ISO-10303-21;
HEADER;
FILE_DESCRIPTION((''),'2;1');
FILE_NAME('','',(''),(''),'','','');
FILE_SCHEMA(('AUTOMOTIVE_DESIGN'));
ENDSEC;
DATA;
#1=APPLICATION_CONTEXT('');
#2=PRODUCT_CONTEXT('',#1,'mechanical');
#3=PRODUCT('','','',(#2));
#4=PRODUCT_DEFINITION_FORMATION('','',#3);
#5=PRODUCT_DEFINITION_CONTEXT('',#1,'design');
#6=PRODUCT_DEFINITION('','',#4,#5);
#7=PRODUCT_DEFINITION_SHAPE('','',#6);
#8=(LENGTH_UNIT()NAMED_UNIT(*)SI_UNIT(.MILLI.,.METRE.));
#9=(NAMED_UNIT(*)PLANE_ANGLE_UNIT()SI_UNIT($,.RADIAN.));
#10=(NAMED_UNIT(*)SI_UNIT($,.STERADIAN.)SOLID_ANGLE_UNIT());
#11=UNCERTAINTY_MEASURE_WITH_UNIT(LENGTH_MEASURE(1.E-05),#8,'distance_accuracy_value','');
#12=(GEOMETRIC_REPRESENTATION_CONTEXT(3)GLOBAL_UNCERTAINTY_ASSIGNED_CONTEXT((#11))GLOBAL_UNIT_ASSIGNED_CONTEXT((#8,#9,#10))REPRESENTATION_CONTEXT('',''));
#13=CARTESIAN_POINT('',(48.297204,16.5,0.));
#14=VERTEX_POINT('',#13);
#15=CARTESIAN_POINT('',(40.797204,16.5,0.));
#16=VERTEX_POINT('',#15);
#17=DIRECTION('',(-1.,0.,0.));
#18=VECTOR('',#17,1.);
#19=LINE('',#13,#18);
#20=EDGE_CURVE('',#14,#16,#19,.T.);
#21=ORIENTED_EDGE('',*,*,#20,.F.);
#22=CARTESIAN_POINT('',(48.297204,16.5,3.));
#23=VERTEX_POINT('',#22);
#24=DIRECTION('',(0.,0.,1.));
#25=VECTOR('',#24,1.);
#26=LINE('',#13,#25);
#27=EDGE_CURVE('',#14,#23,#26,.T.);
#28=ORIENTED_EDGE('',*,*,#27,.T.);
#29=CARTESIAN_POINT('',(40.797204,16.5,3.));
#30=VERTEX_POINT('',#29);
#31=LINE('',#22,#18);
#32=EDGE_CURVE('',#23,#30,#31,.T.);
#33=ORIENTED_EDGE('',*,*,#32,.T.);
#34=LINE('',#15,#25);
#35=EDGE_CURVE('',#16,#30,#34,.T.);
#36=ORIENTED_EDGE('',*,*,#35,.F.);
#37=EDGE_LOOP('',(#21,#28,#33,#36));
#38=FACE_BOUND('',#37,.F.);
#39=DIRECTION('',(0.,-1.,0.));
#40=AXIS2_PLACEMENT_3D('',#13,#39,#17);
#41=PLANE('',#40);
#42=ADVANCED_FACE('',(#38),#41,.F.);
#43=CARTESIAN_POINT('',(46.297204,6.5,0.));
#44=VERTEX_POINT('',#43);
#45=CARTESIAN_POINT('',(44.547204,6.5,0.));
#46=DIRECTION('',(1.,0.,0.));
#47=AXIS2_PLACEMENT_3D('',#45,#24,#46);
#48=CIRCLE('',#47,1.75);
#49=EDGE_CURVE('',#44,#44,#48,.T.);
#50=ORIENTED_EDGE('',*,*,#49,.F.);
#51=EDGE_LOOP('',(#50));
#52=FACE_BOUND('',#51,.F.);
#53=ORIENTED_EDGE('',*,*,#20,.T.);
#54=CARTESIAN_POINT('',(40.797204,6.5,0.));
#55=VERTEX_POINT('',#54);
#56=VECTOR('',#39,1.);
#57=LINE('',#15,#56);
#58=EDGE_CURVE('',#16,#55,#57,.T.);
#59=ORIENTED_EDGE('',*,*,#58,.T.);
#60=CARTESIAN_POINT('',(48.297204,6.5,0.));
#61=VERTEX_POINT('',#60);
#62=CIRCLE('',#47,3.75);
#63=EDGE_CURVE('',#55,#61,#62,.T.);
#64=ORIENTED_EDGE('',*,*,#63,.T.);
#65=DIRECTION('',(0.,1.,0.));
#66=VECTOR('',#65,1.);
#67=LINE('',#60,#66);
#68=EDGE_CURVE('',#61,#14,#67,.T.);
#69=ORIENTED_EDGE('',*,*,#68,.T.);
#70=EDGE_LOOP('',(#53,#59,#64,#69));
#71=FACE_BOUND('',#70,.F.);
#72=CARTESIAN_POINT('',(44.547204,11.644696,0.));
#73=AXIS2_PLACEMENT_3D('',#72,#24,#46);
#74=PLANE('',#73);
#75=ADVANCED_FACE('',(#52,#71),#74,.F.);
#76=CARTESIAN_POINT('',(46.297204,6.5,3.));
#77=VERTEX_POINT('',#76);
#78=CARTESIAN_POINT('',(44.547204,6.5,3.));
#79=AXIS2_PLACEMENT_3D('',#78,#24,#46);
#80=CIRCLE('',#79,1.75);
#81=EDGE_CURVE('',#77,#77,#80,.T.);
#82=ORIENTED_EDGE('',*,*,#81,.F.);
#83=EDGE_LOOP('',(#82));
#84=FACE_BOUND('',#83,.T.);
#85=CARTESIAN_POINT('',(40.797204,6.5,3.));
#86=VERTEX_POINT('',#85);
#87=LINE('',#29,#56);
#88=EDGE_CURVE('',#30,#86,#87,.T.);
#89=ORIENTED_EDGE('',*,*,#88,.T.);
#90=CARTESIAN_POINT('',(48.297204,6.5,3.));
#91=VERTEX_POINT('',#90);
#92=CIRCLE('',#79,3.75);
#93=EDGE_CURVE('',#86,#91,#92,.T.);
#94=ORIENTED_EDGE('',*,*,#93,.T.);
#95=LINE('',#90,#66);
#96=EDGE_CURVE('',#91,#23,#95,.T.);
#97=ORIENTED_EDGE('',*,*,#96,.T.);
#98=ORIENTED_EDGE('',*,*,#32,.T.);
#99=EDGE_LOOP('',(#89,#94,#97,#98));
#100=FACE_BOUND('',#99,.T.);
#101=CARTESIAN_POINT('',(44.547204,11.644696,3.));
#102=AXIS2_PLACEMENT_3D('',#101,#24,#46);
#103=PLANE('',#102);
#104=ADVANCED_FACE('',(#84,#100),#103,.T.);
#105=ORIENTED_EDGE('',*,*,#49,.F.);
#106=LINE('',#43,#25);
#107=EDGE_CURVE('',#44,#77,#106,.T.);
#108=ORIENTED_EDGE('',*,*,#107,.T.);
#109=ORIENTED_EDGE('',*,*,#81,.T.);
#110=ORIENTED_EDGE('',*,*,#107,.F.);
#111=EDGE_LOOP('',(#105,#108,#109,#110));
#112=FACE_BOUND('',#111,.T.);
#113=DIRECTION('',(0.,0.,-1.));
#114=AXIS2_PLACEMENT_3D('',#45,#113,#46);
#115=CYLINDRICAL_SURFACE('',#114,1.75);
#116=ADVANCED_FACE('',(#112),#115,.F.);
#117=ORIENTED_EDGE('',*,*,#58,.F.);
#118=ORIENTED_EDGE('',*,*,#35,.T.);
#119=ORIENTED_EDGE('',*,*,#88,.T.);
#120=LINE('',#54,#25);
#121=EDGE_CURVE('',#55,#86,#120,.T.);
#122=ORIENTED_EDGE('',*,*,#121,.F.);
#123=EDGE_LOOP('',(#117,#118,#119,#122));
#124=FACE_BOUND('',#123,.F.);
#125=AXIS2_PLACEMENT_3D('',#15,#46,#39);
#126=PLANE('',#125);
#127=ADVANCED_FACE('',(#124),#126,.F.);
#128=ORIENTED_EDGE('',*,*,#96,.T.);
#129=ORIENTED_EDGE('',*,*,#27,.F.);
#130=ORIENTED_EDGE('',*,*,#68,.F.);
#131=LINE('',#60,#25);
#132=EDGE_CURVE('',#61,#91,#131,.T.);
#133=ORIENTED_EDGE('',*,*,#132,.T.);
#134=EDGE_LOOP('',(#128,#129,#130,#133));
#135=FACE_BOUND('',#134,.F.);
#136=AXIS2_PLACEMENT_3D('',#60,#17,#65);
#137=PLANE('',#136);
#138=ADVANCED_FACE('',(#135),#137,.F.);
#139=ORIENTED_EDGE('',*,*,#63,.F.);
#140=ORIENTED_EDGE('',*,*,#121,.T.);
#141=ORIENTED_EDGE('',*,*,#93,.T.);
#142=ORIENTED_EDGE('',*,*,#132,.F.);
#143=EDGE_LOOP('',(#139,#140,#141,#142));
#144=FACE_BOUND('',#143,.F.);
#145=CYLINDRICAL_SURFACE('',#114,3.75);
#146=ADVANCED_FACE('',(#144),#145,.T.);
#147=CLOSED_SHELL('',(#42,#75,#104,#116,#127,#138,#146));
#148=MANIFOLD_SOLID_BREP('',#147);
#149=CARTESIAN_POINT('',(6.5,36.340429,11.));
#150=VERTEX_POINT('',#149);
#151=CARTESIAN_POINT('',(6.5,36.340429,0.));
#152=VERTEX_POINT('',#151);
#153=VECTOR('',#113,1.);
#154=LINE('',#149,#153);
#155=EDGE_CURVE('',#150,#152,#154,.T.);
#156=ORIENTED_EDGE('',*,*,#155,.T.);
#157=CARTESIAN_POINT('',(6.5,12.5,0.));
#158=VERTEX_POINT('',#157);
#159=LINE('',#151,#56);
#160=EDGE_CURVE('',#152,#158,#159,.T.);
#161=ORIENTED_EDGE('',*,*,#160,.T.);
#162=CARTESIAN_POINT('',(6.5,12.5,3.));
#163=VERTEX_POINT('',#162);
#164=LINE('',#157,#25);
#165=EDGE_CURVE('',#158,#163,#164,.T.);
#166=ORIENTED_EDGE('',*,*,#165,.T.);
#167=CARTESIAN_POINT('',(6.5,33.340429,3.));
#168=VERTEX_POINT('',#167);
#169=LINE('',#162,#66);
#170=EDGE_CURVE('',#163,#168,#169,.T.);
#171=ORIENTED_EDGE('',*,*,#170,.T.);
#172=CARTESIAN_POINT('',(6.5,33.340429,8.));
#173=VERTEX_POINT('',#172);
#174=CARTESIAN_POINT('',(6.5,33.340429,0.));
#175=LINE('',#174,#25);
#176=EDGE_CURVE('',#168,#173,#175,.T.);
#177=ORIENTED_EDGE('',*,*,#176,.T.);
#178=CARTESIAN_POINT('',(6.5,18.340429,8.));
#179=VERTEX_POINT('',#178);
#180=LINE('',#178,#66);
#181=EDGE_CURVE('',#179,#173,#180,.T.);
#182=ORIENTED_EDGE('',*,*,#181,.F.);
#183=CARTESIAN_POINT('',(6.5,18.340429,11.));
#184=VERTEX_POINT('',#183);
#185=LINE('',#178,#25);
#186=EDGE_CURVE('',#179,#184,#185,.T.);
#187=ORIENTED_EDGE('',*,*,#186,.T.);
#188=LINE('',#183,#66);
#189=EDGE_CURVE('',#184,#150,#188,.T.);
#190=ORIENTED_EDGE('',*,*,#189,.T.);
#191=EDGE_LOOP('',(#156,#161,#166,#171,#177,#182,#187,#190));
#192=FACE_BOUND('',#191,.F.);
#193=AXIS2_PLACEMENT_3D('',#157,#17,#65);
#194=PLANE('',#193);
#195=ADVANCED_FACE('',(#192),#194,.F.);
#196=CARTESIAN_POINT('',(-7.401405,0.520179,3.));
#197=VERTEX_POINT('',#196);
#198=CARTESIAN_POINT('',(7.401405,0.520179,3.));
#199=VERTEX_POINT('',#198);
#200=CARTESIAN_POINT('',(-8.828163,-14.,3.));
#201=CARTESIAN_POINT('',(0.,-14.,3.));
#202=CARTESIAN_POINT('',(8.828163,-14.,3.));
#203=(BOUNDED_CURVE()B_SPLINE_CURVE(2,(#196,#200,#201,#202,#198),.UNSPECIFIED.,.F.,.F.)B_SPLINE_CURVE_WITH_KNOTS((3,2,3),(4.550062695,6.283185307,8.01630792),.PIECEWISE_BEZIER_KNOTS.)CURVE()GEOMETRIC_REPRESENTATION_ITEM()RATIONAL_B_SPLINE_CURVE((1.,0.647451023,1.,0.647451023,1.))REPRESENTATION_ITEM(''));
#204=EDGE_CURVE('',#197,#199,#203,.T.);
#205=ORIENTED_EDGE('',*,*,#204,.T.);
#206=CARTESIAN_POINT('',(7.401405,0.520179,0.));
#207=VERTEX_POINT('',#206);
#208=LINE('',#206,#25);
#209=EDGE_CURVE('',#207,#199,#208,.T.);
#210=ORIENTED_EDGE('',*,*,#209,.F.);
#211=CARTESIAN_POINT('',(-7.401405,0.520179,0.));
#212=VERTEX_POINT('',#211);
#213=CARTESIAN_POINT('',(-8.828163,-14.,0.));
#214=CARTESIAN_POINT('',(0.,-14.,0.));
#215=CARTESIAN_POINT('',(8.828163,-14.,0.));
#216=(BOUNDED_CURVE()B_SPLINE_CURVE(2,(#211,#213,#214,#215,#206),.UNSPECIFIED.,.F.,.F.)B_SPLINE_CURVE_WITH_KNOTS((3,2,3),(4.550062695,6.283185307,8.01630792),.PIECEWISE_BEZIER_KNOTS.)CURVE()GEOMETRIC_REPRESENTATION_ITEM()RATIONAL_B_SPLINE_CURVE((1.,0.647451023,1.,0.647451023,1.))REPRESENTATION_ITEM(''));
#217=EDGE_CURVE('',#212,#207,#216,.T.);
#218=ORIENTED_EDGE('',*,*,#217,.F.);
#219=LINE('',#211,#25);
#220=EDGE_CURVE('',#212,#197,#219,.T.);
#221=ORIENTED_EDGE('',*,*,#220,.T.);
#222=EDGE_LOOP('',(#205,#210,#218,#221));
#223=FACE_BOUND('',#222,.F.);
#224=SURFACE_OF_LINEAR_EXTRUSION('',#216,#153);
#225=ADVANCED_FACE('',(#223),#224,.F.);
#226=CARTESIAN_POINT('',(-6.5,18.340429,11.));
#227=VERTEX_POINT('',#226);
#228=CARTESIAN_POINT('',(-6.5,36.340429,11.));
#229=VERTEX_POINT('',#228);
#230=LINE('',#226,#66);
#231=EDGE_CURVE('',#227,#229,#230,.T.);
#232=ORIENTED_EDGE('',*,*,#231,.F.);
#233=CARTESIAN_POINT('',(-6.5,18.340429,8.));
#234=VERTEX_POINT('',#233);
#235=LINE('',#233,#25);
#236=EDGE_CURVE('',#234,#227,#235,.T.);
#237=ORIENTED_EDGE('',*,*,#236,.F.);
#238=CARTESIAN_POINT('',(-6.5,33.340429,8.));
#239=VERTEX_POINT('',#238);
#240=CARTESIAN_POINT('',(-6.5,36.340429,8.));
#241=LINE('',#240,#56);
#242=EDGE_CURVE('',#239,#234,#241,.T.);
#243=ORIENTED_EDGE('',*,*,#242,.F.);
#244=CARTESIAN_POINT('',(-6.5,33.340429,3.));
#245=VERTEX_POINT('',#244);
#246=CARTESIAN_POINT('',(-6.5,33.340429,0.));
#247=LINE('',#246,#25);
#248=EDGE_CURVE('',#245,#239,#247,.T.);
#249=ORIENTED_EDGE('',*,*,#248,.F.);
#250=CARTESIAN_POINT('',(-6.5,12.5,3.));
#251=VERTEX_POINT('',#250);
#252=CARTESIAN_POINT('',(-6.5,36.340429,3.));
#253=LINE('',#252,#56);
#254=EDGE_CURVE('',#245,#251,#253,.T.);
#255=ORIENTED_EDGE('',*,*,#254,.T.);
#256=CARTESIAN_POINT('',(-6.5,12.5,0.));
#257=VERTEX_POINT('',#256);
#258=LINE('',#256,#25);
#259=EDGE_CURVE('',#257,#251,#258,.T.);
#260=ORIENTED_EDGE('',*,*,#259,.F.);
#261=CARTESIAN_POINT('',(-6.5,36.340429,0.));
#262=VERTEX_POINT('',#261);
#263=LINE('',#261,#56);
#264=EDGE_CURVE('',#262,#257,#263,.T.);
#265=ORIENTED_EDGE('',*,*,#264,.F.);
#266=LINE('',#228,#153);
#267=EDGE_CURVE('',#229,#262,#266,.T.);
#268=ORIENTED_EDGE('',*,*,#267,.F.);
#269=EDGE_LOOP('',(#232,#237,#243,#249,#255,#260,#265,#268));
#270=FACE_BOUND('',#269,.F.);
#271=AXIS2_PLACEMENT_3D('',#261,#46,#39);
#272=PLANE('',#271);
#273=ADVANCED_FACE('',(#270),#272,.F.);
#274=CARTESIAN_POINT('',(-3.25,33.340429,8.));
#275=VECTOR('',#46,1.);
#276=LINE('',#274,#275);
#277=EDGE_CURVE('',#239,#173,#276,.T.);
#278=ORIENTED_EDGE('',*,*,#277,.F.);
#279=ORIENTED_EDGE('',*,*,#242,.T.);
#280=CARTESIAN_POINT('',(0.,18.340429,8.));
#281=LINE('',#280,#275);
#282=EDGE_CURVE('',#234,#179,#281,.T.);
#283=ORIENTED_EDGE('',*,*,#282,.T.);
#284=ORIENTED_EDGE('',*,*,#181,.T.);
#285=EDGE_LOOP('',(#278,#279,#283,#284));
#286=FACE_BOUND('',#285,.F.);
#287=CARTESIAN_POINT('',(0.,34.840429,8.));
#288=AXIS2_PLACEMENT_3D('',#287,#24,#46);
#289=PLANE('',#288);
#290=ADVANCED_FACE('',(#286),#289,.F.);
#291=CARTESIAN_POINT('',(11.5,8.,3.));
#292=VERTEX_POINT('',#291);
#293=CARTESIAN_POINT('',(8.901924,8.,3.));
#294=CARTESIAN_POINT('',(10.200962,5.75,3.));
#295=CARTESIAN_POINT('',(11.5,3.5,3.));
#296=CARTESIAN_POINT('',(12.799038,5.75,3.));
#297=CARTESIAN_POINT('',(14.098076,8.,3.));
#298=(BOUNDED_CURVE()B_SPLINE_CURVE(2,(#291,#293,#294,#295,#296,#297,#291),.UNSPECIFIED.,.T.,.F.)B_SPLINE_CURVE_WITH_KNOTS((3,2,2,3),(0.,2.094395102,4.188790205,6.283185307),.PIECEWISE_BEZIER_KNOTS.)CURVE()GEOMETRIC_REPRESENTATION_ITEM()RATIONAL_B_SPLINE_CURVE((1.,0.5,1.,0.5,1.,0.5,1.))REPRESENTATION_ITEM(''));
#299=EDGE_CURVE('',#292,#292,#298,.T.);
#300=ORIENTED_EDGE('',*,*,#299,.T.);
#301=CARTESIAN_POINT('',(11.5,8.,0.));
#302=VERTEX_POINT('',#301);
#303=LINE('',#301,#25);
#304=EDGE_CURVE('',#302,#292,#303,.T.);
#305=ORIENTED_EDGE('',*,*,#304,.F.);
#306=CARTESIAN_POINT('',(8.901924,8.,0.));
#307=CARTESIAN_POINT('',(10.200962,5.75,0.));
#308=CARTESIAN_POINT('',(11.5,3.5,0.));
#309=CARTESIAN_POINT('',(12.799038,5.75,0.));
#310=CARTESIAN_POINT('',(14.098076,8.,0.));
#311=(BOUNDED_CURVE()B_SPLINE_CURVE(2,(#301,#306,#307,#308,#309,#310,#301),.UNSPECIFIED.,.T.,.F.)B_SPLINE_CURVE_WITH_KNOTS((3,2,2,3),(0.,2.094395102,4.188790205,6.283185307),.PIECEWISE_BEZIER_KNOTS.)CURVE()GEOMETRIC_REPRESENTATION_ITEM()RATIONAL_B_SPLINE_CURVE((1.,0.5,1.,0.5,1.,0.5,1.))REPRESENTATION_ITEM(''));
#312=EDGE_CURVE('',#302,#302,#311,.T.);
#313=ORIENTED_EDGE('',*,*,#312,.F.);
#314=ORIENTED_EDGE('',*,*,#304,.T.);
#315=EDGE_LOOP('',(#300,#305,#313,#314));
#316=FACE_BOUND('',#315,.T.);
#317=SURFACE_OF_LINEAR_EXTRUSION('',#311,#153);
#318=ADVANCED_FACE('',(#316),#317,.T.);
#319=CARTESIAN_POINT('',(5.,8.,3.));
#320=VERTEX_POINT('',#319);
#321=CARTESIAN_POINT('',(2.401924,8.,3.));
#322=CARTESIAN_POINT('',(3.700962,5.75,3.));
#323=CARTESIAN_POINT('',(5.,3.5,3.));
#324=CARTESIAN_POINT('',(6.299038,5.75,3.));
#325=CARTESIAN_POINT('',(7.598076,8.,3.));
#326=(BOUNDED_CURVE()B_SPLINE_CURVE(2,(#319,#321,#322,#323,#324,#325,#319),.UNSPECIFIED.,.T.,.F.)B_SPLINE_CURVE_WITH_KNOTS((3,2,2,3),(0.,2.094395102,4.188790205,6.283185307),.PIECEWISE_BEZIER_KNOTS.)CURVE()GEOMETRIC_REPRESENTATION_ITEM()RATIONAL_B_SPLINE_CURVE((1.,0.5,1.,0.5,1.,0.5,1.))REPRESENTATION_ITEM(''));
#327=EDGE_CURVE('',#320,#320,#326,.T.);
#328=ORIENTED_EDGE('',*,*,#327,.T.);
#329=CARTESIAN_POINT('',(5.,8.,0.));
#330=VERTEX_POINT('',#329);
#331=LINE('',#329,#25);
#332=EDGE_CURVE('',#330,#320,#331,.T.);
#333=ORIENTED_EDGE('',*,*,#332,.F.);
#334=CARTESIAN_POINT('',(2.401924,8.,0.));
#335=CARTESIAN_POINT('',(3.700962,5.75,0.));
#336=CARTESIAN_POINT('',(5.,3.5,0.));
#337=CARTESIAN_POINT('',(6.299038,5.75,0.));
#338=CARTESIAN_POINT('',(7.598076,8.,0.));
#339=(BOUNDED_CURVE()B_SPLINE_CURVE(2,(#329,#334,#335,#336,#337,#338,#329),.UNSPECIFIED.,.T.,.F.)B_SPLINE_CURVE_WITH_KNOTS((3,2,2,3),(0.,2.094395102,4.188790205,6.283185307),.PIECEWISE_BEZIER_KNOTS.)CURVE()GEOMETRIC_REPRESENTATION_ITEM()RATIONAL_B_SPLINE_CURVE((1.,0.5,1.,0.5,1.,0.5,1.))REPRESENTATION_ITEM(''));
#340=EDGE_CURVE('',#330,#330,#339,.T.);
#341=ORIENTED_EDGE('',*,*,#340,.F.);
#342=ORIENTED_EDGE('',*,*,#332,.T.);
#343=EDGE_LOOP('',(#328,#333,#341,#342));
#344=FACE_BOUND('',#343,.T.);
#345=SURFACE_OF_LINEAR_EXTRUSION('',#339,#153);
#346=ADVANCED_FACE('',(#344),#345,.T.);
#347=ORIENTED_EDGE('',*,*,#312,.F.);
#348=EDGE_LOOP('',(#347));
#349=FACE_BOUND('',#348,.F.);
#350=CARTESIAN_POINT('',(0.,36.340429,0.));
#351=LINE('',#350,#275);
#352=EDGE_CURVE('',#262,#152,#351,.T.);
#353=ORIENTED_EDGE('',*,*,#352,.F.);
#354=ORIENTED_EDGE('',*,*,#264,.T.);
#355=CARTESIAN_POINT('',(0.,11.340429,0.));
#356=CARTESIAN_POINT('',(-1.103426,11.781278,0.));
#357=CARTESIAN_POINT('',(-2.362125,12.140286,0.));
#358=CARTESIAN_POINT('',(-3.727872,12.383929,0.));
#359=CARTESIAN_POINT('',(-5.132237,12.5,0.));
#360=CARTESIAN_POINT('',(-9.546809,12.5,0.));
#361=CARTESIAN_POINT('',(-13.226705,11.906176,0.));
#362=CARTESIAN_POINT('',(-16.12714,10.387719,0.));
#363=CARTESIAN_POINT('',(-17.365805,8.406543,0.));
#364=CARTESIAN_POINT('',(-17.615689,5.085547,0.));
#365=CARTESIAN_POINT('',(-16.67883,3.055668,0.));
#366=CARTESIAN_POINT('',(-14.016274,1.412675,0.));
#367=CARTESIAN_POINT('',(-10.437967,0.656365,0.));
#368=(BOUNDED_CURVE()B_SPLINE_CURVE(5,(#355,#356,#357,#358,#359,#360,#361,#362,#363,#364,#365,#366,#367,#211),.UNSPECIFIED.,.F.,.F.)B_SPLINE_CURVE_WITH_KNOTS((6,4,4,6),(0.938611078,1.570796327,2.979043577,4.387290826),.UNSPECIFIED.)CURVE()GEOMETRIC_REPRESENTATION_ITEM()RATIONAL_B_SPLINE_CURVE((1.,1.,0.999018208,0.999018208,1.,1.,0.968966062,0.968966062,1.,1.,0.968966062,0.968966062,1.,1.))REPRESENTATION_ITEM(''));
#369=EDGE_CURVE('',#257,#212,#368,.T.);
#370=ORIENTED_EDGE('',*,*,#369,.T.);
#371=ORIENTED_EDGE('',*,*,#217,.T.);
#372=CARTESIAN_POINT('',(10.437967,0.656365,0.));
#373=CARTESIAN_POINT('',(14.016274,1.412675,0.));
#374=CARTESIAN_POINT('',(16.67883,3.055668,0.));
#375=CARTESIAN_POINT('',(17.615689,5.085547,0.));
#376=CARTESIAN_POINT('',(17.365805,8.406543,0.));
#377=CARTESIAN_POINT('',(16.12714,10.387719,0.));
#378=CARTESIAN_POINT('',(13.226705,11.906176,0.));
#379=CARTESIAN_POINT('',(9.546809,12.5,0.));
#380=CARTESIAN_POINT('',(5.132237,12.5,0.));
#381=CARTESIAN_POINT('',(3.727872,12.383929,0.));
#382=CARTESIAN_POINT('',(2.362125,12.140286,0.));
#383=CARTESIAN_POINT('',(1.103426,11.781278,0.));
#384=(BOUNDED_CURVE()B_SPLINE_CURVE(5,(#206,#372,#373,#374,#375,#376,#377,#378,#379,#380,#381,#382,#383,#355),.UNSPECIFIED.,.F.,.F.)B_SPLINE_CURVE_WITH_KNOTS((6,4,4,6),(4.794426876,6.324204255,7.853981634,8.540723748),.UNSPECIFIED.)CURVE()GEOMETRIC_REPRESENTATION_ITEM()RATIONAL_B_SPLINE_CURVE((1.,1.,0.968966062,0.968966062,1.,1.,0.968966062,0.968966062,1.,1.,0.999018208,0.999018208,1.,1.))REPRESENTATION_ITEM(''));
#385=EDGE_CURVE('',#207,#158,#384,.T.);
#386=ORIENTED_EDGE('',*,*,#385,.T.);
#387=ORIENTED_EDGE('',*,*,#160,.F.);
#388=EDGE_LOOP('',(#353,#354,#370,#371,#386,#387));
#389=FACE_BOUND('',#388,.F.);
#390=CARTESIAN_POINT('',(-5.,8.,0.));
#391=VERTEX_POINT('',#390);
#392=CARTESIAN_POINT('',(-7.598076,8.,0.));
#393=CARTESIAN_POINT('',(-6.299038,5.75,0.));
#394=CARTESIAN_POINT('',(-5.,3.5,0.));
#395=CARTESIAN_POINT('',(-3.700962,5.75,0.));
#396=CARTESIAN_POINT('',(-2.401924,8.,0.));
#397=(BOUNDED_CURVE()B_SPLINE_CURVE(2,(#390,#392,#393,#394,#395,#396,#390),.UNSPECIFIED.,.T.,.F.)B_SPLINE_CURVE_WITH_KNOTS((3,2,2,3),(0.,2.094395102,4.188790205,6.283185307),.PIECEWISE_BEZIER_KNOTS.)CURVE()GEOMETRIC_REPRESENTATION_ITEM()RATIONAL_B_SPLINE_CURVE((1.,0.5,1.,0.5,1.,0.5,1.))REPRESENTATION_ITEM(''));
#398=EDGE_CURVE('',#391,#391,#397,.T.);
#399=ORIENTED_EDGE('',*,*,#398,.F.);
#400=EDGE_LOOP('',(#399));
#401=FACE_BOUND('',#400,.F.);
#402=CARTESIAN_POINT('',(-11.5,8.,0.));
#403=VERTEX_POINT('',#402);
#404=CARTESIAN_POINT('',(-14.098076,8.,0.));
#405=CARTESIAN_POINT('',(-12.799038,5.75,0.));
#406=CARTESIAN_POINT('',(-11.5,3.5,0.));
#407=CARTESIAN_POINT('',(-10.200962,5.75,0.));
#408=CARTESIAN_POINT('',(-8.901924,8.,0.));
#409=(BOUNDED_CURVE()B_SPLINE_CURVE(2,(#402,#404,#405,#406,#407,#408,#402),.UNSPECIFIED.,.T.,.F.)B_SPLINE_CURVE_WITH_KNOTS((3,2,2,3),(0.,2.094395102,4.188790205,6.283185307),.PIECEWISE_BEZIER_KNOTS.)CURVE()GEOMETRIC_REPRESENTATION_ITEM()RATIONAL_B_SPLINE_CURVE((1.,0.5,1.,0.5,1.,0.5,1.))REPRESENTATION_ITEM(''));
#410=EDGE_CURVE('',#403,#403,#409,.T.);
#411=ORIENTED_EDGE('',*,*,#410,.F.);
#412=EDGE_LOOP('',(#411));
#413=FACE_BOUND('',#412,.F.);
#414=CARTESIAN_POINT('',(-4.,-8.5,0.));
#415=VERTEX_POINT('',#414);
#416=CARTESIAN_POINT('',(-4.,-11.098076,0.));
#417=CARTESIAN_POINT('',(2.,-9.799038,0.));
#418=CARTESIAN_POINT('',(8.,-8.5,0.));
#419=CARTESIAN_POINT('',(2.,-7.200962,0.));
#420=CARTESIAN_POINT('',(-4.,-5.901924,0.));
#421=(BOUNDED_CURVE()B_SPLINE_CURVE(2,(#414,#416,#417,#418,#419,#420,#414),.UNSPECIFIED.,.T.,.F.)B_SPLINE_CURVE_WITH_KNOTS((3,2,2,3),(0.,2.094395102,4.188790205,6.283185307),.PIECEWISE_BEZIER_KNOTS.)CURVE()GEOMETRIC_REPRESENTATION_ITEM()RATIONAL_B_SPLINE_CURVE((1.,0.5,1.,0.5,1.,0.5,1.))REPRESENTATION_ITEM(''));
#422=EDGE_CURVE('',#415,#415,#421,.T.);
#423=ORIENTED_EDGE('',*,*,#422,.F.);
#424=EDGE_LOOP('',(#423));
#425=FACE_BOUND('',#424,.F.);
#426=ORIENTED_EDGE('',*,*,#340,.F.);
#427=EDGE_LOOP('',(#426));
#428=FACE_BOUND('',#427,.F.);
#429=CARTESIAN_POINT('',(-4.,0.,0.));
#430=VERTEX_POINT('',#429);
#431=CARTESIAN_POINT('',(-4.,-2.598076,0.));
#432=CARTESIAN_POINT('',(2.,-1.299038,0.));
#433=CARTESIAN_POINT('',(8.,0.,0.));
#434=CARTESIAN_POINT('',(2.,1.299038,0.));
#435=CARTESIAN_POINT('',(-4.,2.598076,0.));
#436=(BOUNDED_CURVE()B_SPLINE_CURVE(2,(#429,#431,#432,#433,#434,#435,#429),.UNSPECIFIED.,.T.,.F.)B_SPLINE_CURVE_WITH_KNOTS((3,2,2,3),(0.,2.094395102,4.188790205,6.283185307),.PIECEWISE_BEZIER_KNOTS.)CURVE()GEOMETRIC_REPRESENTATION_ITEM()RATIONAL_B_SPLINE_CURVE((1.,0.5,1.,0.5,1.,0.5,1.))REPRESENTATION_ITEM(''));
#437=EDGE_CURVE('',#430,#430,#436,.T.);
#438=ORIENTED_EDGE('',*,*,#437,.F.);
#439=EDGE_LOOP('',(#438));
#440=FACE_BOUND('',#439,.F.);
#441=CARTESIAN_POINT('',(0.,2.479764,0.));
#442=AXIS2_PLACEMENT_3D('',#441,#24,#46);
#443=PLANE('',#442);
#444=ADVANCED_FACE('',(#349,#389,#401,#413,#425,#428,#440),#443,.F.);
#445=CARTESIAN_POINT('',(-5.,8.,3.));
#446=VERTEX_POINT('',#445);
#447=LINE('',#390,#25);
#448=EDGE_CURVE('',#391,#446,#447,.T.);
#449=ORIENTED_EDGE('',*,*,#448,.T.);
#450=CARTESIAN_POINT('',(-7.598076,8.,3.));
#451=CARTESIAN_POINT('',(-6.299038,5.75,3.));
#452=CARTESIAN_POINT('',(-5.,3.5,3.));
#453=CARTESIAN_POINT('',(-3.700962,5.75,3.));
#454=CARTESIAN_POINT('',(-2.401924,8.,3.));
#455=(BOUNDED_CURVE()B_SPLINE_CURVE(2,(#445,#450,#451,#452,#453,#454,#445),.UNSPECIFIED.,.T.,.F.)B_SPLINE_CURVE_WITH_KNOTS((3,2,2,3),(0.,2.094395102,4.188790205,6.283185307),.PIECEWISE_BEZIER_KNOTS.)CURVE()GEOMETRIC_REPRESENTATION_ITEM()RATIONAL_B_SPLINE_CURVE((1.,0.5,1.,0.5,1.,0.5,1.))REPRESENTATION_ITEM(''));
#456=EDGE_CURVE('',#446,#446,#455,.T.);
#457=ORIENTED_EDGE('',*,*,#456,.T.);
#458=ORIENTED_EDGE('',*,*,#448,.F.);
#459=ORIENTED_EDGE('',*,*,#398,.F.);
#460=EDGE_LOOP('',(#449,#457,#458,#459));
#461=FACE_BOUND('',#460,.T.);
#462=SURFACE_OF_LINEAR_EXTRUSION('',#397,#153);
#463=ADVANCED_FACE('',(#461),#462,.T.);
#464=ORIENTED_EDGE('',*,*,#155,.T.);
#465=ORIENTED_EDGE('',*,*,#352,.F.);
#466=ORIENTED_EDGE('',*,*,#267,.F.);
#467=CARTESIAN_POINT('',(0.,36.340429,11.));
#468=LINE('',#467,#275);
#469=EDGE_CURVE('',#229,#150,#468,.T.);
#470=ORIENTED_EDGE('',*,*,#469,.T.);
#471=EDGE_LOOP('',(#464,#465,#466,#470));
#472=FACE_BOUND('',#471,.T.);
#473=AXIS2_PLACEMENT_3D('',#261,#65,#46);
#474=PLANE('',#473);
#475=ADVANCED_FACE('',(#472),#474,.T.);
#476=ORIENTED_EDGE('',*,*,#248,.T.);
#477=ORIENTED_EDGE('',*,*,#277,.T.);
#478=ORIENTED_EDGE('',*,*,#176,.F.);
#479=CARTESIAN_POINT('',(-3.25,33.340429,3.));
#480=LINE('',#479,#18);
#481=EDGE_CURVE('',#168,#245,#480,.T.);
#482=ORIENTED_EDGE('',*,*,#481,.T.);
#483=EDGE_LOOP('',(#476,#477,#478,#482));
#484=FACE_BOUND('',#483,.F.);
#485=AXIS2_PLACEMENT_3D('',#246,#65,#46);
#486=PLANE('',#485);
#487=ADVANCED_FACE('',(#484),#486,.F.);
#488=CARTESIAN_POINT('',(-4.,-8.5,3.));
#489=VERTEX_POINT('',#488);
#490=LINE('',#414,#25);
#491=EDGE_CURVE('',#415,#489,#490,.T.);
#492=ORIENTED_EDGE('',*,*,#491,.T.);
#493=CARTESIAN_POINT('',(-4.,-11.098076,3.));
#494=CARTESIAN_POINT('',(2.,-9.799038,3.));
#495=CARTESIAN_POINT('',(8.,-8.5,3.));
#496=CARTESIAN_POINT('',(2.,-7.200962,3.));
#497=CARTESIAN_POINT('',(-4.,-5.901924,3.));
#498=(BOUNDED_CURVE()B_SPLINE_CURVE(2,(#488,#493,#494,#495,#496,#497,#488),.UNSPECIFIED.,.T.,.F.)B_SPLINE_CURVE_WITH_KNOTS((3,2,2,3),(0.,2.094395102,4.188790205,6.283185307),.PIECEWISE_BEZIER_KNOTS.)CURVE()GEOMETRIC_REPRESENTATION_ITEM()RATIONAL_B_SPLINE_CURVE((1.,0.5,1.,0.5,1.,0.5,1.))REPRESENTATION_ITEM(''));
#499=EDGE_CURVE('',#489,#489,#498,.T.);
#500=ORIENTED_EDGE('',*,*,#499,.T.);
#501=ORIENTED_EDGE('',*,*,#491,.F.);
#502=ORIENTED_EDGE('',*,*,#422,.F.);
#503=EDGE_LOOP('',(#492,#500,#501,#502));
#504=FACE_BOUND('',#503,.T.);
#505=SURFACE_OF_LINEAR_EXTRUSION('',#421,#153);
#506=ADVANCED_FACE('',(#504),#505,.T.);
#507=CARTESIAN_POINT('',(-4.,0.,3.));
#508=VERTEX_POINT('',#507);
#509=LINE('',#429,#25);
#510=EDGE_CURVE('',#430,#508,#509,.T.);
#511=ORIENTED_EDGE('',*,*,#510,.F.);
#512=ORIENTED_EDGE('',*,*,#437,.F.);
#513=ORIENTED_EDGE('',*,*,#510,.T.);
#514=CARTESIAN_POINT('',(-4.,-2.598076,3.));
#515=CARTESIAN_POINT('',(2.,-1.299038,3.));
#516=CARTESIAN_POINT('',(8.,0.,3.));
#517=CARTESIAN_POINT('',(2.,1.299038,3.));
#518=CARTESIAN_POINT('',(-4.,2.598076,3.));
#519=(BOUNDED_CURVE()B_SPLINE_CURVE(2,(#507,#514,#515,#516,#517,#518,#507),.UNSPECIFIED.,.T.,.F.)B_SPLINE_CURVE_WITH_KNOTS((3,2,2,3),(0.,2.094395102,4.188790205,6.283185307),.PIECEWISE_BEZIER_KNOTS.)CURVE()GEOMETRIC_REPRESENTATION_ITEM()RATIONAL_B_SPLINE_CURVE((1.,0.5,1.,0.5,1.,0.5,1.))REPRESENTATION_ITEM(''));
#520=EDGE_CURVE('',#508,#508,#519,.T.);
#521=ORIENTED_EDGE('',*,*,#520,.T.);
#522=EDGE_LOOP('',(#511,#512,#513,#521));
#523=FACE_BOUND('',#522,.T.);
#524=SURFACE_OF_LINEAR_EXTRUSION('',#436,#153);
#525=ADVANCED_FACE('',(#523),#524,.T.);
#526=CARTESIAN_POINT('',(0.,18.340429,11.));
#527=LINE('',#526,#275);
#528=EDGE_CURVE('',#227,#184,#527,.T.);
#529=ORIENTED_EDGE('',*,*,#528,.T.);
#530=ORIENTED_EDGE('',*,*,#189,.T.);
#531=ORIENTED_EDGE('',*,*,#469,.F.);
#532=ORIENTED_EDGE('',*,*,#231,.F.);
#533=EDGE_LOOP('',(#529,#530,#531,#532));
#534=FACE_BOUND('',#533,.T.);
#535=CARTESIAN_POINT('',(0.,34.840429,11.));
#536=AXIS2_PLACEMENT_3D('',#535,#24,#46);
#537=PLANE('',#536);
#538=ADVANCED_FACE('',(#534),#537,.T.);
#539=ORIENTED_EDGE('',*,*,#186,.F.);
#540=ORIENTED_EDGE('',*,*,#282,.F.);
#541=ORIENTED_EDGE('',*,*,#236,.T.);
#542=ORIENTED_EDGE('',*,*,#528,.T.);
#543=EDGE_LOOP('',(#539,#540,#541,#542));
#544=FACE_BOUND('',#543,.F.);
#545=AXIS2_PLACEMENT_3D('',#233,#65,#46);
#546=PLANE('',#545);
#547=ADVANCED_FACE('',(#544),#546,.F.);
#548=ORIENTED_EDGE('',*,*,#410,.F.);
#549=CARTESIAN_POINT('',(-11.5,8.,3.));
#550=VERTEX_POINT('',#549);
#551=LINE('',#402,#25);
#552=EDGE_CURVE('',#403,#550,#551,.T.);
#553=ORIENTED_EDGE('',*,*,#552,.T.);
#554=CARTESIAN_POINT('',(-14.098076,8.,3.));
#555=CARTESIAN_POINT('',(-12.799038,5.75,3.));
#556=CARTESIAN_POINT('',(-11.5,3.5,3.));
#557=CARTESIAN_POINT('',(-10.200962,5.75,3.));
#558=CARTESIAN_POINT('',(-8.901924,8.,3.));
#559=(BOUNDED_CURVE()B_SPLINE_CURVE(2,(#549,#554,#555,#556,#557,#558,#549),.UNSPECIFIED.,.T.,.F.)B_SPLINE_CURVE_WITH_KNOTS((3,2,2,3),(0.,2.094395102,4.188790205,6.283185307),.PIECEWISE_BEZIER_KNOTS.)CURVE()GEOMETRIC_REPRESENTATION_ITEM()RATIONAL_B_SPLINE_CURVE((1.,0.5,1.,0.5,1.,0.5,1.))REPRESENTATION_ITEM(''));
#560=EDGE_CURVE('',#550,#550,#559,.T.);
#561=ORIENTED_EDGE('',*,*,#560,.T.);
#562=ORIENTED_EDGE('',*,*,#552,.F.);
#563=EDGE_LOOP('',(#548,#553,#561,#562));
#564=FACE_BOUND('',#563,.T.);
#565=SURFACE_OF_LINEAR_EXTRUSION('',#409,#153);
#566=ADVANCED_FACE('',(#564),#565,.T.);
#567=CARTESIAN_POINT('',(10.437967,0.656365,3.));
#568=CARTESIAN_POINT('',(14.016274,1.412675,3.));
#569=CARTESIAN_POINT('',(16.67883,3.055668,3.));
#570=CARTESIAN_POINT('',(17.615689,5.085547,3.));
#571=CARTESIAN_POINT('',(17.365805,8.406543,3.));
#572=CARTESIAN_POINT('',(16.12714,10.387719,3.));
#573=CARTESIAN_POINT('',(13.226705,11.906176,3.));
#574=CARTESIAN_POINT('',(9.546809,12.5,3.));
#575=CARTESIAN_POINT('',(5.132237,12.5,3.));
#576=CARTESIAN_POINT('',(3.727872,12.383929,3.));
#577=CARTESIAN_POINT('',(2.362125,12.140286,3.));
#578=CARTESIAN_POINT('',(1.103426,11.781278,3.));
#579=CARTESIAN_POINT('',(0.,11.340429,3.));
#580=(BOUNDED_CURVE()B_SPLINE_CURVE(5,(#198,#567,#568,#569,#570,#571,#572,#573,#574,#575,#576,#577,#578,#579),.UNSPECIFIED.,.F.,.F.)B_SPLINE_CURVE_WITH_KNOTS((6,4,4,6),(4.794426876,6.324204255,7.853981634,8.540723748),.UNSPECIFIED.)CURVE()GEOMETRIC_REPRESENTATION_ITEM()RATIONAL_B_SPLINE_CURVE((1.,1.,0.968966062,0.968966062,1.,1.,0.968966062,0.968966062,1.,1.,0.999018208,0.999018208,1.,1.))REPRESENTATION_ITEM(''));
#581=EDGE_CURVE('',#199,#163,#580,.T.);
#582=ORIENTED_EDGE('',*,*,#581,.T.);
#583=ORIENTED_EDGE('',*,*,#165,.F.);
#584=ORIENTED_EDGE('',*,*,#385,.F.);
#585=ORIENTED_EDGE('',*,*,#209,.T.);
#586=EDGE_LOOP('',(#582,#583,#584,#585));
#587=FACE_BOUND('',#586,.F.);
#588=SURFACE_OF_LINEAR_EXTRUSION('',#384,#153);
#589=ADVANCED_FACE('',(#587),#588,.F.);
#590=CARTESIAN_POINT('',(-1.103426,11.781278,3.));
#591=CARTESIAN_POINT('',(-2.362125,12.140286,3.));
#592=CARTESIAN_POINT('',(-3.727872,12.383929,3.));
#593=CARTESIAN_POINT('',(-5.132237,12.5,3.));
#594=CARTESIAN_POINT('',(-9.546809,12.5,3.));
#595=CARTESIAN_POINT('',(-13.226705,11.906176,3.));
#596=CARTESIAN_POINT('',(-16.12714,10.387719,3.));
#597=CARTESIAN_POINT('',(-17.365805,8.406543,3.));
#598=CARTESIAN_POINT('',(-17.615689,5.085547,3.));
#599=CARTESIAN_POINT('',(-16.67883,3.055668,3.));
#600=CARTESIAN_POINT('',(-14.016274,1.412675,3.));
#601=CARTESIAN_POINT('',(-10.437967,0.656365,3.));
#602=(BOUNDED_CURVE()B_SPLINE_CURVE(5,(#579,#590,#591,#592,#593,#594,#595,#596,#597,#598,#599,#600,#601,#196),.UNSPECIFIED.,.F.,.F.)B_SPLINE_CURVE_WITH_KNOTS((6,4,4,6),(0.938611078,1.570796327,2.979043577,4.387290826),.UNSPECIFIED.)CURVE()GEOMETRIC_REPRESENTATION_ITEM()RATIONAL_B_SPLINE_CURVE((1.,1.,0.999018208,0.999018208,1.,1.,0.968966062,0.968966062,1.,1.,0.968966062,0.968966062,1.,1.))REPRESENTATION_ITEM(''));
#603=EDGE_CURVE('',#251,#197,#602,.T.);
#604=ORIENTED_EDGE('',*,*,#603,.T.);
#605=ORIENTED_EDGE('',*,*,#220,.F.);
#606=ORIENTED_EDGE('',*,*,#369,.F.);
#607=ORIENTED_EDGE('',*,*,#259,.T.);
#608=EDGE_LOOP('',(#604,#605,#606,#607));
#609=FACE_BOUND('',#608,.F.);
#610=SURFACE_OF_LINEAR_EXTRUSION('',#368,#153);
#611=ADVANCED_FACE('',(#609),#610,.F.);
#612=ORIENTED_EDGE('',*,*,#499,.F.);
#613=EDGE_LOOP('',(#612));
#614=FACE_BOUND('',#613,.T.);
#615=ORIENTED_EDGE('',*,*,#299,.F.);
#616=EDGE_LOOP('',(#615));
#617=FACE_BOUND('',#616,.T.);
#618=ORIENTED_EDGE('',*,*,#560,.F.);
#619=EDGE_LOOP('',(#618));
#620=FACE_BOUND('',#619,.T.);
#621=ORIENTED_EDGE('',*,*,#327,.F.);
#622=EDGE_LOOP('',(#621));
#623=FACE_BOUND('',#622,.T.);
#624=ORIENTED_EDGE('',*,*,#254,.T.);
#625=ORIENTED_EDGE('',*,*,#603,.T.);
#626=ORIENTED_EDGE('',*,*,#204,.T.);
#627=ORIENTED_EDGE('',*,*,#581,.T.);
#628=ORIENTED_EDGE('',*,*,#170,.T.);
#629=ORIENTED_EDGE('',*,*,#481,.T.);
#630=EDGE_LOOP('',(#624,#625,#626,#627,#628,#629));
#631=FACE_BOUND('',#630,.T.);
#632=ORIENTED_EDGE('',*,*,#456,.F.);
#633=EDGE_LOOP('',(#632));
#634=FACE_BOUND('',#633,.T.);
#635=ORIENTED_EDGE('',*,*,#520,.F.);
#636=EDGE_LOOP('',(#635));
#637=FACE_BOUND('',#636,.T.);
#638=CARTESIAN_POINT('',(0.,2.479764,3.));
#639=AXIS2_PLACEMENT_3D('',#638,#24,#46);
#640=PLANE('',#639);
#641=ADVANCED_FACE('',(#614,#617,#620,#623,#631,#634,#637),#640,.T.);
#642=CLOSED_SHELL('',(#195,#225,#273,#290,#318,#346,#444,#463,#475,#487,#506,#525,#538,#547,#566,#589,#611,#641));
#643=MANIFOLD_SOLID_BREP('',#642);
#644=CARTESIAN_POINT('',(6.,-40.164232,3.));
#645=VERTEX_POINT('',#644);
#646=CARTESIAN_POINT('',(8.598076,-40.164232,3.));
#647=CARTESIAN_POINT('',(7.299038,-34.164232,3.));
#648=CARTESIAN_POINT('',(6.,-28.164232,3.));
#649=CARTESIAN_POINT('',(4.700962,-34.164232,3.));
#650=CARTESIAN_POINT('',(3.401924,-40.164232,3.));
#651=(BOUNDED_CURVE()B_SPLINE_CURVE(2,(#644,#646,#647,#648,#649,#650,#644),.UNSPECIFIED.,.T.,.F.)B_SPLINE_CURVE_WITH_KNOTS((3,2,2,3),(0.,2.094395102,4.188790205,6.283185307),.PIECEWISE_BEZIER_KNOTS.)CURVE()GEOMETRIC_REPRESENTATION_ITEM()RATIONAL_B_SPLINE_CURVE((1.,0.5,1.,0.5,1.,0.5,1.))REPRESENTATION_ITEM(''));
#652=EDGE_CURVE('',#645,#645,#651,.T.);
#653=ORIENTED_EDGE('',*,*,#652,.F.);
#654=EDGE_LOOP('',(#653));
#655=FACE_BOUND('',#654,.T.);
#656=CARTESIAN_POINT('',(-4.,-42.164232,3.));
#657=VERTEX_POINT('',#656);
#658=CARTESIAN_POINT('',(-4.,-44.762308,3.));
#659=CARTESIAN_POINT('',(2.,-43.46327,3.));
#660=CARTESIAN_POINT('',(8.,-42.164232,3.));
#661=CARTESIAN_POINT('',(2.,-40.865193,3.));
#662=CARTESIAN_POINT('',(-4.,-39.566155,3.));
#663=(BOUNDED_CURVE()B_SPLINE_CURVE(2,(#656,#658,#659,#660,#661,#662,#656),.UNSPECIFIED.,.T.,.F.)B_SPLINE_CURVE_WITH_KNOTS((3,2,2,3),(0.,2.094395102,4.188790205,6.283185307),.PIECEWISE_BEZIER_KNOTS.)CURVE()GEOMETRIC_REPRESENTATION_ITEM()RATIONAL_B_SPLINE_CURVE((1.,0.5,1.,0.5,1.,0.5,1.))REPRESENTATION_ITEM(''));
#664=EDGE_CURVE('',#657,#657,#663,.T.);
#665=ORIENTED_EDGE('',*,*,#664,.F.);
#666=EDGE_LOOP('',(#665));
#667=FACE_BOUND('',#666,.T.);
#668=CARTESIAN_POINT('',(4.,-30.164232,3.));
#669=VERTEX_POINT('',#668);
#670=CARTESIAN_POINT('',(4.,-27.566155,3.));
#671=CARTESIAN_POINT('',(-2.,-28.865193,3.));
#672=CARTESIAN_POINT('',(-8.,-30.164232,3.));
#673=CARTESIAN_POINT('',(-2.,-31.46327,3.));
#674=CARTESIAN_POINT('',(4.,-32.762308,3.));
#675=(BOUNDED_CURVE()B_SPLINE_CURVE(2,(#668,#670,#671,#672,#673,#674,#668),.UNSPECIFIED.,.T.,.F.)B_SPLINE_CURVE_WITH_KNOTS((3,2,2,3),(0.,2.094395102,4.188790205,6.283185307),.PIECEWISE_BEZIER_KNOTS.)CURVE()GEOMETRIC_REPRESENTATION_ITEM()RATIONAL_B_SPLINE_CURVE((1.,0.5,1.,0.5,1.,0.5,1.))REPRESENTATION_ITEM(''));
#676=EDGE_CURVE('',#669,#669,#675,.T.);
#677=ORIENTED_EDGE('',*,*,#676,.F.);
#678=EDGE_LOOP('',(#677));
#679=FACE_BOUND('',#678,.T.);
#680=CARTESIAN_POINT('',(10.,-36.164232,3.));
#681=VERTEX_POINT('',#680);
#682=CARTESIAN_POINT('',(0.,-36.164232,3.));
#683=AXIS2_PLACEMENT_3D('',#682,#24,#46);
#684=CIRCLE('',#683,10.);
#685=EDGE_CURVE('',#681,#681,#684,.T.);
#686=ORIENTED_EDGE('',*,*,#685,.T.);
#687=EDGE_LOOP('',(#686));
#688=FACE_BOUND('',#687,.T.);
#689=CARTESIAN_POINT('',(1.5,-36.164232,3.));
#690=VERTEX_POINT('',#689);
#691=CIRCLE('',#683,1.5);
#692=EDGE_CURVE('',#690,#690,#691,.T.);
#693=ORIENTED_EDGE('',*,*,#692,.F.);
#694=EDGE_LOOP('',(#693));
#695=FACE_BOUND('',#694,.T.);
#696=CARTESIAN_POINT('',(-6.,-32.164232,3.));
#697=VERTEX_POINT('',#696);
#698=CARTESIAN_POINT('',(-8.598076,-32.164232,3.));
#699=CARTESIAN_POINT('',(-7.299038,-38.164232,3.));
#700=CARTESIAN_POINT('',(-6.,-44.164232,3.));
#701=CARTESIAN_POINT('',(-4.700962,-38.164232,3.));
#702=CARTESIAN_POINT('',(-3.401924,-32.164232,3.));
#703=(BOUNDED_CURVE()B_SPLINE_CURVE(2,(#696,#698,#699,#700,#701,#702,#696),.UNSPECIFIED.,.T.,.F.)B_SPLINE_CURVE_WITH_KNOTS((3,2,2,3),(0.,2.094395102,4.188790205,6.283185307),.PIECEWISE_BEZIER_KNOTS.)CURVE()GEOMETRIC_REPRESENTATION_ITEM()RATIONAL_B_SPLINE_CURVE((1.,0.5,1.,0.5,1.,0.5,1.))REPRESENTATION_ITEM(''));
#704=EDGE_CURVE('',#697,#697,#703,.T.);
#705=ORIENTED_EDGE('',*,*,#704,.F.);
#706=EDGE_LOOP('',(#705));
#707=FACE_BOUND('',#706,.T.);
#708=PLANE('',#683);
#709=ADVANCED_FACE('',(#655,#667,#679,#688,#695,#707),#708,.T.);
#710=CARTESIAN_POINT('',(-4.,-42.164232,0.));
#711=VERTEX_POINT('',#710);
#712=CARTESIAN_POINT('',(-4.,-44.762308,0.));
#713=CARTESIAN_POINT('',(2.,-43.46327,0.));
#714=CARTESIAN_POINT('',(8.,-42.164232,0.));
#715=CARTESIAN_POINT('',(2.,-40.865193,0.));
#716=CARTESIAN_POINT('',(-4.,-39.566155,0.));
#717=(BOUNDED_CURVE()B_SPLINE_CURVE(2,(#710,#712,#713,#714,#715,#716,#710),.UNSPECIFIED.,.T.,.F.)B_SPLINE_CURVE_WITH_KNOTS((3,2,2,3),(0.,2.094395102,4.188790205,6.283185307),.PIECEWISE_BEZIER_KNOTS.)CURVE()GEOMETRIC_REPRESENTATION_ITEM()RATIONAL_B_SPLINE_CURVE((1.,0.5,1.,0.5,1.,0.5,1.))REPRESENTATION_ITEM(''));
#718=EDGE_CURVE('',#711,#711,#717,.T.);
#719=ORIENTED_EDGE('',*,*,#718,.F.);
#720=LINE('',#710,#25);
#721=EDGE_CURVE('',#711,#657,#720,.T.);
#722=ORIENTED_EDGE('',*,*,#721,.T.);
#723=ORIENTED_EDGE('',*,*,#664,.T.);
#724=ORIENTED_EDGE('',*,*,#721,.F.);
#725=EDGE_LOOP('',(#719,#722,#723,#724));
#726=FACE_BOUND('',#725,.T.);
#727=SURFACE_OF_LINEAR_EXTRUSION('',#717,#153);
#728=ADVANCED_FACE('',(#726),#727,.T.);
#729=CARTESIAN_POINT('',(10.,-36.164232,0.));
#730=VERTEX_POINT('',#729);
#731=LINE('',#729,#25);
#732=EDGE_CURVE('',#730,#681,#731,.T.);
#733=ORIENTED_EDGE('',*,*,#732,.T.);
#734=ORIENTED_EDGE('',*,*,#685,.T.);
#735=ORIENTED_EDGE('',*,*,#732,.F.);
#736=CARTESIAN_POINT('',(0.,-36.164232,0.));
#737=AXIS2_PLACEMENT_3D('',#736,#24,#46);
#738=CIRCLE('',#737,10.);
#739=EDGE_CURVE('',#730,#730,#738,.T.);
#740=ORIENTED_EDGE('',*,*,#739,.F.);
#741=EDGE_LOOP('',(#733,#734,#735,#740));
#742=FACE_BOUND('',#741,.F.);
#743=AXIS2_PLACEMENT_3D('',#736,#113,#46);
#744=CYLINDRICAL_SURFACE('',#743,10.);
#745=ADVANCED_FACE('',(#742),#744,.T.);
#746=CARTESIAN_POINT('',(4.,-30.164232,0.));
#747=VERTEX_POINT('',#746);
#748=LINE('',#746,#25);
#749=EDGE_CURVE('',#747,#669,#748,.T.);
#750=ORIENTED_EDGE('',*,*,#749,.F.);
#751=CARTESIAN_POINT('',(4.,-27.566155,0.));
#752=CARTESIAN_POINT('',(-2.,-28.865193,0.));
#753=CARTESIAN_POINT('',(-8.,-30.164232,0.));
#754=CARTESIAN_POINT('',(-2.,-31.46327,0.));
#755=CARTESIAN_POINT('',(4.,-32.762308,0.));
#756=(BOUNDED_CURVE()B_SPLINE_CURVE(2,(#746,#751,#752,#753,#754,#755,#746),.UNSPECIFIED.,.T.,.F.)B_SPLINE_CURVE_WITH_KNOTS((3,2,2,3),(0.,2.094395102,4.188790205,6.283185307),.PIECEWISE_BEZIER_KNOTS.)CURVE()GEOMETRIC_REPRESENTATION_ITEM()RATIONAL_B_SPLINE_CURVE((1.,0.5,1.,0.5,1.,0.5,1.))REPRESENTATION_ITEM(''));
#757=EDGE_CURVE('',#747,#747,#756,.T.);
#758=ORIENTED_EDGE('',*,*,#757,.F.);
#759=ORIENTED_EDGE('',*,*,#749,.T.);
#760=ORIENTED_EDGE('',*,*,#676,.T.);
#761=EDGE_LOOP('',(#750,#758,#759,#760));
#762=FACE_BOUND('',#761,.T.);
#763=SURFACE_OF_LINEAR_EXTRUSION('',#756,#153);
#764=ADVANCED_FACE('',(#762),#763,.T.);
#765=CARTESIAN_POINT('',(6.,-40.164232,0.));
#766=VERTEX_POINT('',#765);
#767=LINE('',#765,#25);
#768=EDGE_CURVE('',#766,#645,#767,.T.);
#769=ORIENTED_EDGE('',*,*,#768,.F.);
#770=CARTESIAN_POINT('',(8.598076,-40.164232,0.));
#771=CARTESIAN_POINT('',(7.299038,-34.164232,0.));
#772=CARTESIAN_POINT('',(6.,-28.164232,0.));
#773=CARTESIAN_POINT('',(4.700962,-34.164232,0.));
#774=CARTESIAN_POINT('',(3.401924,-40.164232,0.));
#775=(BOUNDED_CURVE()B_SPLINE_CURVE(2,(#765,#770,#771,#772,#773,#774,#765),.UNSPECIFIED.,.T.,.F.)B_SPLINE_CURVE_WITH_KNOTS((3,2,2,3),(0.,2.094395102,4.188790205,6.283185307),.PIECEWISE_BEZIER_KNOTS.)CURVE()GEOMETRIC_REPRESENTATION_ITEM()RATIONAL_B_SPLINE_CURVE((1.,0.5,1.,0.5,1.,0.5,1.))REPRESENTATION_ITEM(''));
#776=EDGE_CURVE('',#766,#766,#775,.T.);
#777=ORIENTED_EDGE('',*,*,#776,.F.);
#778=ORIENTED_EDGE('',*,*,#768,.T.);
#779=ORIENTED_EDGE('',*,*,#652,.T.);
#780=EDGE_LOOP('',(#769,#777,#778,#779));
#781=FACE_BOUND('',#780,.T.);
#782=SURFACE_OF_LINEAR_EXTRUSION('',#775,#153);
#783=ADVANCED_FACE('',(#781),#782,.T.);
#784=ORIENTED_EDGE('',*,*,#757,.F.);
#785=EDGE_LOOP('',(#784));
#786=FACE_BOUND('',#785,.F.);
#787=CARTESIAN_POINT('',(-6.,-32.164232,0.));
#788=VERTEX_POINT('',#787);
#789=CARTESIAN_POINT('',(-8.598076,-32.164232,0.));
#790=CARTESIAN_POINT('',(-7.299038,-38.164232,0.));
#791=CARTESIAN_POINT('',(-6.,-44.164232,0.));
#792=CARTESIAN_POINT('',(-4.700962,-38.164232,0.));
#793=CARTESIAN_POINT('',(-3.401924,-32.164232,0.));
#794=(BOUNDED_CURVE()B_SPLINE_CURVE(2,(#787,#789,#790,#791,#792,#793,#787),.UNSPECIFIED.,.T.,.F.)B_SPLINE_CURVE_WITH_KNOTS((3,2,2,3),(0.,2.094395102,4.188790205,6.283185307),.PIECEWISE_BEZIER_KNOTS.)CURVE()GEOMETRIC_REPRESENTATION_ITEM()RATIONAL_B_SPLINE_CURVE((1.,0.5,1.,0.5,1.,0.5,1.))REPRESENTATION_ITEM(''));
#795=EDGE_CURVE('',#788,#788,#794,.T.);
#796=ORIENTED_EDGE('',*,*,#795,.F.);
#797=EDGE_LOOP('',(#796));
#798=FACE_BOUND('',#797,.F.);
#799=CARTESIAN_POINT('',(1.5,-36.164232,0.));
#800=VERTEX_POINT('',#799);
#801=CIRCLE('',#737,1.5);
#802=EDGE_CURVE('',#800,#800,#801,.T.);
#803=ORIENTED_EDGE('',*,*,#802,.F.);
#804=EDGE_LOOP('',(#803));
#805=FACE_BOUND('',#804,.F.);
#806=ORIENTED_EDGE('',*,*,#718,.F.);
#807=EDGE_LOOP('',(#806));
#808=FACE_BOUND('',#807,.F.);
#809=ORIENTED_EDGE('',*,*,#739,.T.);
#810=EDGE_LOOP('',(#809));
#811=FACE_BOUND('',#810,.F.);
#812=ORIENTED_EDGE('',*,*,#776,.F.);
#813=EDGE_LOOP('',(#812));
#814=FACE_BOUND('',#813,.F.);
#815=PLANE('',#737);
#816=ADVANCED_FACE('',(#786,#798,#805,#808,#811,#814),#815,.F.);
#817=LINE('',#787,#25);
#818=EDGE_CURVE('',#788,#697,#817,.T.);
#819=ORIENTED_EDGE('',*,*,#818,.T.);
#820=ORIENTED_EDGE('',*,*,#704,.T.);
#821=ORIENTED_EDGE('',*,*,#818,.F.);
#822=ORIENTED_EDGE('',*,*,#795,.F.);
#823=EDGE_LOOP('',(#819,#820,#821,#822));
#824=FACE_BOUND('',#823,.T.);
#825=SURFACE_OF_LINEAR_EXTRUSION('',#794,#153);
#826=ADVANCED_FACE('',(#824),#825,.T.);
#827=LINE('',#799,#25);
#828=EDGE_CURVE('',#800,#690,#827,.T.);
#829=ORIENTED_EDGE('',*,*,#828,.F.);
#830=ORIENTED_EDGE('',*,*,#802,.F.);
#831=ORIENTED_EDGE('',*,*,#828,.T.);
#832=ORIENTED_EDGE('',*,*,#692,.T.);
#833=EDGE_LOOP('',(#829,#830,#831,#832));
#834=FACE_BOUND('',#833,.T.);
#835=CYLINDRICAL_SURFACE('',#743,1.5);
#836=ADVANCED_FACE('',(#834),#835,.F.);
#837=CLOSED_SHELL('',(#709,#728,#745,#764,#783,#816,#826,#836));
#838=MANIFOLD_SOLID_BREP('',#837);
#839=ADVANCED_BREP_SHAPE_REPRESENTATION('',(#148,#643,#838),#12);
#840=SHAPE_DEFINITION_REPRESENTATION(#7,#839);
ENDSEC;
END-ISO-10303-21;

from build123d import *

# Parameters (mm, degrees)
F0_W     = 13
F0_H     = 15
F0_H_2   = 3
F1_DEPTH = 3
F2_DEPTH = 11
F3_START = 8
F3_DEPTH = 3
F0_R     = 10
F0_R_2   = 1.5
F4_DEPTH = 3
F0_R_3   = 1.75
F5_DEPTH = 3


with BuildPart() as f1:
    # F0 (on Top) → F1 (new body)
    with BuildSketch(Plane.XY):
        with BuildLine():
            add(Edge.make_bspline(
                [(6.5, 12.5), (2.9023563725, 12.5), (0, 11.3404289134)],
                knots=[1.5707963268, 1.5707963268, 1.5707963268, 2.2029815755, 2.2029815755, 2.2029815755], degree=2, weights=[1, 0.9504572984, 1]))
            add(Edge.make_bspline(
                [(0, 11.3404289134), (-2.9023563725, 12.5), (-6.5, 12.5)],
                knots=[0.9386110781, 0.9386110781, 0.9386110781, 1.5707963268, 1.5707963268, 1.5707963268], degree=2, weights=[1, 0.9504572984, 1]))
            add(Edge.make_bspline(
                [(-6.5, 12.5), (-17.0577988838, 12.5), (-17.4907472501, 6.7460446753), (-17.9236956164, 0.9920893505), (-7.401404946, 0.5201793274)],
                knots=[1.5707963268, 1.5707963268, 1.5707963268, 3.1005737059, 3.1005737059, 4.630351085, 4.630351085, 4.630351085], degree=2, weights=[1, 0.7214594396, 1, 0.7214594396, 1]))
            add(Edge.make_bspline(
                [(-7.401404946, 0.5201793274), (-8.8281626867, -14), (0, -14), (8.8281626867, -14), (7.401404946, 0.5201793274)],
                knots=[4.5500626947, 4.5500626947, 4.5500626947, 6.2831853072, 6.2831853072, 8.0163079197, 8.0163079197, 8.0163079197], degree=2, weights=[1, 0.6474510228, 1, 0.6474510228, 1]))
            add(Edge.make_bspline(
                [(7.401404946, 0.5201793274), (17.9236956164, 0.9920893505), (17.4907472501, 6.7460446753), (17.0577988838, 12.5), (6.5, 12.5)],
                knots=[4.7944268757, 4.7944268757, 4.7944268757, 6.3242042549, 6.3242042549, 7.853981634, 7.853981634, 7.853981634], degree=2, weights=[1, 0.7214594396, 1, 0.7214594396, 1]))
        make_face()
        with BuildLine():
            add(Edge.make_bspline(
                [(-4, -8.5), (-4, -11.0980762114), (2, -9.7990381057), (8, -8.5), (2, -7.2009618943), (-4, -5.9019237886), (-4, -8.5)],
                knots=[0, 0, 0, 2.0943951024, 2.0943951024, 4.1887902048, 4.1887902048, 6.2831853072, 6.2831853072, 6.2831853072], degree=2, weights=[1, 0.5, 1, 0.5, 1, 0.5, 1]))
        make_face(mode=Mode.SUBTRACT)
        with BuildLine():
            add(Edge.make_bspline(
                [(-11.5, 8), (-14.0980762114, 8), (-12.7990381057, 5.75), (-11.5, 3.5), (-10.2009618943, 5.75), (-8.9019237886, 8), (-11.5, 8)],
                knots=[0, 0, 0, 2.0943951024, 2.0943951024, 4.1887902048, 4.1887902048, 6.2831853072, 6.2831853072, 6.2831853072], degree=2, weights=[1, 0.5, 1, 0.5, 1, 0.5, 1]))
        make_face(mode=Mode.SUBTRACT)
        with BuildLine():
            add(Edge.make_bspline(
                [(-5, 8), (-7.5980762114, 8), (-6.2990381057, 5.75), (-5, 3.5), (-3.7009618943, 5.75), (-2.4019237886, 8), (-5, 8)],
                knots=[0, 0, 0, 2.0943951024, 2.0943951024, 4.1887902048, 4.1887902048, 6.2831853072, 6.2831853072, 6.2831853072], degree=2, weights=[1, 0.5, 1, 0.5, 1, 0.5, 1]))
        make_face(mode=Mode.SUBTRACT)
        with BuildLine():
            add(Edge.make_bspline(
                [(-4, 0), (-4, -2.5980762114), (2, -1.2990381057), (8, 0), (2, 1.2990381057), (-4, 2.5980762114), (-4, 0)],
                knots=[0, 0, 0, 2.0943951024, 2.0943951024, 4.1887902048, 4.1887902048, 6.2831853072, 6.2831853072, 6.2831853072], degree=2, weights=[1, 0.5, 1, 0.5, 1, 0.5, 1]))
        make_face(mode=Mode.SUBTRACT)
        with BuildLine():
            add(Edge.make_bspline(
                [(5, 8), (2.4019237886, 8), (3.7009618943, 5.75), (5, 3.5), (6.2990381057, 5.75), (7.5980762114, 8), (5, 8)],
                knots=[0, 0, 0, 2.0943951024, 2.0943951024, 4.1887902048, 4.1887902048, 6.2831853072, 6.2831853072, 6.2831853072], degree=2, weights=[1, 0.5, 1, 0.5, 1, 0.5, 1]))
        make_face(mode=Mode.SUBTRACT)
        with BuildLine():
            add(Edge.make_bspline(
                [(11.5, 8), (8.9019237886, 8), (10.2009618943, 5.75), (11.5, 3.5), (12.7990381057, 5.75), (14.0980762114, 8), (11.5, 8)],
                knots=[0, 0, 0, 2.0943951024, 2.0943951024, 4.1887902048, 4.1887902048, 6.2831853072, 6.2831853072, 6.2831853072], degree=2, weights=[1, 0.5, 1, 0.5, 1, 0.5, 1]))
        make_face(mode=Mode.SUBTRACT)
        with BuildLine():
            add(Edge.make_bspline(
                [(0, 11.3404289134), (-2.9023563725, 12.5), (-6.5, 12.5)],
                knots=[0.9386110781, 0.9386110781, 0.9386110781, 1.5707963268, 1.5707963268, 1.5707963268], degree=2, weights=[1, 0.9504572984, 1]))
            add(Edge.make_bspline(
                [(6.5, 12.5), (2.9023563725, 12.5), (0, 11.3404289134)],
                knots=[1.5707963268, 1.5707963268, 1.5707963268, 2.2029815755, 2.2029815755, 2.2029815755], degree=2, weights=[1, 0.9504572984, 1]))
            Line((6.5, 12.5), (6.5, 18.3404289134))
            Line((6.5, 18.3404289134), (-6.5, 18.3404289134))
            Line((-6.5, 18.3404289134), (-6.5, 12.5))
        make_face()
        with Locations((0, 25.8404289134)):
            Rectangle(F0_W, F0_H)
        with Locations((0, 34.8404289134)):
            Rectangle(F0_W, F0_H_2)
    extrude(amount=F1_DEPTH)

    # F0 (on Top) → F2 (join)
    with BuildSketch(Plane.XY):
        with Locations((0, 34.8404289134)):
            Rectangle(F0_W, F0_H_2)
    extrude(amount=F2_DEPTH)

    # F0 (on Top) → F3 (join)
    with BuildSketch(Plane.XY.offset(F3_START)):
        with Locations((0, 34.8404289134)):
            Rectangle(F0_W, F0_H_2)
        with Locations((0, 25.8404289134)):
            Rectangle(F0_W, F0_H)
    extrude(amount=F3_DEPTH)


with BuildPart() as f4:
    # F0 (on Top) → F4 (new body)
    with BuildSketch(Plane.XY):
        with Locations((0, -36.1642315984)):
            Circle(F0_R)
        with BuildLine():
            add(Edge.make_bspline(
                [(-6, -32.1642315984), (-8.5980762114, -32.1642315984), (-7.2990381057, -38.1642315984), (-6, -44.1642315984), (-4.7009618943, -38.1642315984), (-3.4019237886, -32.1642315984), (-6, -32.1642315984)],
                knots=[0, 0, 0, 2.0943951024, 2.0943951024, 4.1887902048, 4.1887902048, 6.2831853072, 6.2831853072, 6.2831853072], degree=2, weights=[1, 0.5, 1, 0.5, 1, 0.5, 1]))
        make_face(mode=Mode.SUBTRACT)
        with BuildLine():
            add(Edge.make_bspline(
                [(-4, -42.1642315984), (-4, -44.7623078097), (2, -43.4632697041), (8, -42.1642315984), (2, -40.8651934927), (-4, -39.566155387), (-4, -42.1642315984)],
                knots=[0, 0, 0, 2.0943951024, 2.0943951024, 4.1887902048, 4.1887902048, 6.2831853072, 6.2831853072, 6.2831853072], degree=2, weights=[1, 0.5, 1, 0.5, 1, 0.5, 1]))
        make_face(mode=Mode.SUBTRACT)
        with Locations((0, -36.1642315984)):
            Circle(F0_R_2, mode=Mode.SUBTRACT)
        with BuildLine():
            add(Edge.make_bspline(
                [(6, -40.1642315984), (8.5980762114, -40.1642315984), (7.2990381057, -34.1642315984), (6, -28.1642315984), (4.7009618943, -34.1642315984), (3.4019237886, -40.1642315984), (6, -40.1642315984)],
                knots=[0, 0, 0, 2.0943951024, 2.0943951024, 4.1887902048, 4.1887902048, 6.2831853072, 6.2831853072, 6.2831853072], degree=2, weights=[1, 0.5, 1, 0.5, 1, 0.5, 1]))
        make_face(mode=Mode.SUBTRACT)
        with BuildLine():
            add(Edge.make_bspline(
                [(4, -30.1642315984), (4, -27.566155387), (-2, -28.8651934927), (-8, -30.1642315984), (-2, -31.4632697041), (4, -32.7623078097), (4, -30.1642315984)],
                knots=[0, 0, 0, 2.0943951024, 2.0943951024, 4.1887902048, 4.1887902048, 6.2831853072, 6.2831853072, 6.2831853072], degree=2, weights=[1, 0.5, 1, 0.5, 1, 0.5, 1]))
        make_face(mode=Mode.SUBTRACT)
    extrude(amount=F4_DEPTH)


with BuildPart() as f5:
    # F0 (on Top) → F5 (new body)
    with BuildSketch(Plane.XY):
        with BuildLine():
            ThreePointArc((40.7972039282, 6.5), (44.5472039282, 10.25), (48.2972039282, 6.5))
            Line((48.2972039282, 6.5), (48.2972039282, 16.5))
            Line((48.2972039282, 16.5), (40.7972039282, 16.5))
            Line((40.7972039282, 16.5), (40.7972039282, 6.5))
        make_face()
        with BuildLine():
            ThreePointArc((40.7972039282, 6.5), (44.5472039282, 2.75), (48.2972039282, 6.5))
            ThreePointArc((48.2972039282, 6.5), (44.5472039282, 10.25), (40.7972039282, 6.5))
        make_face()
        with Locations((44.5472039282, 6.5)):
            Circle(F0_R_3, mode=Mode.SUBTRACT)
    extrude(amount=F5_DEPTH)


solid = Compound([f1.part, f4.part, f5.part])
